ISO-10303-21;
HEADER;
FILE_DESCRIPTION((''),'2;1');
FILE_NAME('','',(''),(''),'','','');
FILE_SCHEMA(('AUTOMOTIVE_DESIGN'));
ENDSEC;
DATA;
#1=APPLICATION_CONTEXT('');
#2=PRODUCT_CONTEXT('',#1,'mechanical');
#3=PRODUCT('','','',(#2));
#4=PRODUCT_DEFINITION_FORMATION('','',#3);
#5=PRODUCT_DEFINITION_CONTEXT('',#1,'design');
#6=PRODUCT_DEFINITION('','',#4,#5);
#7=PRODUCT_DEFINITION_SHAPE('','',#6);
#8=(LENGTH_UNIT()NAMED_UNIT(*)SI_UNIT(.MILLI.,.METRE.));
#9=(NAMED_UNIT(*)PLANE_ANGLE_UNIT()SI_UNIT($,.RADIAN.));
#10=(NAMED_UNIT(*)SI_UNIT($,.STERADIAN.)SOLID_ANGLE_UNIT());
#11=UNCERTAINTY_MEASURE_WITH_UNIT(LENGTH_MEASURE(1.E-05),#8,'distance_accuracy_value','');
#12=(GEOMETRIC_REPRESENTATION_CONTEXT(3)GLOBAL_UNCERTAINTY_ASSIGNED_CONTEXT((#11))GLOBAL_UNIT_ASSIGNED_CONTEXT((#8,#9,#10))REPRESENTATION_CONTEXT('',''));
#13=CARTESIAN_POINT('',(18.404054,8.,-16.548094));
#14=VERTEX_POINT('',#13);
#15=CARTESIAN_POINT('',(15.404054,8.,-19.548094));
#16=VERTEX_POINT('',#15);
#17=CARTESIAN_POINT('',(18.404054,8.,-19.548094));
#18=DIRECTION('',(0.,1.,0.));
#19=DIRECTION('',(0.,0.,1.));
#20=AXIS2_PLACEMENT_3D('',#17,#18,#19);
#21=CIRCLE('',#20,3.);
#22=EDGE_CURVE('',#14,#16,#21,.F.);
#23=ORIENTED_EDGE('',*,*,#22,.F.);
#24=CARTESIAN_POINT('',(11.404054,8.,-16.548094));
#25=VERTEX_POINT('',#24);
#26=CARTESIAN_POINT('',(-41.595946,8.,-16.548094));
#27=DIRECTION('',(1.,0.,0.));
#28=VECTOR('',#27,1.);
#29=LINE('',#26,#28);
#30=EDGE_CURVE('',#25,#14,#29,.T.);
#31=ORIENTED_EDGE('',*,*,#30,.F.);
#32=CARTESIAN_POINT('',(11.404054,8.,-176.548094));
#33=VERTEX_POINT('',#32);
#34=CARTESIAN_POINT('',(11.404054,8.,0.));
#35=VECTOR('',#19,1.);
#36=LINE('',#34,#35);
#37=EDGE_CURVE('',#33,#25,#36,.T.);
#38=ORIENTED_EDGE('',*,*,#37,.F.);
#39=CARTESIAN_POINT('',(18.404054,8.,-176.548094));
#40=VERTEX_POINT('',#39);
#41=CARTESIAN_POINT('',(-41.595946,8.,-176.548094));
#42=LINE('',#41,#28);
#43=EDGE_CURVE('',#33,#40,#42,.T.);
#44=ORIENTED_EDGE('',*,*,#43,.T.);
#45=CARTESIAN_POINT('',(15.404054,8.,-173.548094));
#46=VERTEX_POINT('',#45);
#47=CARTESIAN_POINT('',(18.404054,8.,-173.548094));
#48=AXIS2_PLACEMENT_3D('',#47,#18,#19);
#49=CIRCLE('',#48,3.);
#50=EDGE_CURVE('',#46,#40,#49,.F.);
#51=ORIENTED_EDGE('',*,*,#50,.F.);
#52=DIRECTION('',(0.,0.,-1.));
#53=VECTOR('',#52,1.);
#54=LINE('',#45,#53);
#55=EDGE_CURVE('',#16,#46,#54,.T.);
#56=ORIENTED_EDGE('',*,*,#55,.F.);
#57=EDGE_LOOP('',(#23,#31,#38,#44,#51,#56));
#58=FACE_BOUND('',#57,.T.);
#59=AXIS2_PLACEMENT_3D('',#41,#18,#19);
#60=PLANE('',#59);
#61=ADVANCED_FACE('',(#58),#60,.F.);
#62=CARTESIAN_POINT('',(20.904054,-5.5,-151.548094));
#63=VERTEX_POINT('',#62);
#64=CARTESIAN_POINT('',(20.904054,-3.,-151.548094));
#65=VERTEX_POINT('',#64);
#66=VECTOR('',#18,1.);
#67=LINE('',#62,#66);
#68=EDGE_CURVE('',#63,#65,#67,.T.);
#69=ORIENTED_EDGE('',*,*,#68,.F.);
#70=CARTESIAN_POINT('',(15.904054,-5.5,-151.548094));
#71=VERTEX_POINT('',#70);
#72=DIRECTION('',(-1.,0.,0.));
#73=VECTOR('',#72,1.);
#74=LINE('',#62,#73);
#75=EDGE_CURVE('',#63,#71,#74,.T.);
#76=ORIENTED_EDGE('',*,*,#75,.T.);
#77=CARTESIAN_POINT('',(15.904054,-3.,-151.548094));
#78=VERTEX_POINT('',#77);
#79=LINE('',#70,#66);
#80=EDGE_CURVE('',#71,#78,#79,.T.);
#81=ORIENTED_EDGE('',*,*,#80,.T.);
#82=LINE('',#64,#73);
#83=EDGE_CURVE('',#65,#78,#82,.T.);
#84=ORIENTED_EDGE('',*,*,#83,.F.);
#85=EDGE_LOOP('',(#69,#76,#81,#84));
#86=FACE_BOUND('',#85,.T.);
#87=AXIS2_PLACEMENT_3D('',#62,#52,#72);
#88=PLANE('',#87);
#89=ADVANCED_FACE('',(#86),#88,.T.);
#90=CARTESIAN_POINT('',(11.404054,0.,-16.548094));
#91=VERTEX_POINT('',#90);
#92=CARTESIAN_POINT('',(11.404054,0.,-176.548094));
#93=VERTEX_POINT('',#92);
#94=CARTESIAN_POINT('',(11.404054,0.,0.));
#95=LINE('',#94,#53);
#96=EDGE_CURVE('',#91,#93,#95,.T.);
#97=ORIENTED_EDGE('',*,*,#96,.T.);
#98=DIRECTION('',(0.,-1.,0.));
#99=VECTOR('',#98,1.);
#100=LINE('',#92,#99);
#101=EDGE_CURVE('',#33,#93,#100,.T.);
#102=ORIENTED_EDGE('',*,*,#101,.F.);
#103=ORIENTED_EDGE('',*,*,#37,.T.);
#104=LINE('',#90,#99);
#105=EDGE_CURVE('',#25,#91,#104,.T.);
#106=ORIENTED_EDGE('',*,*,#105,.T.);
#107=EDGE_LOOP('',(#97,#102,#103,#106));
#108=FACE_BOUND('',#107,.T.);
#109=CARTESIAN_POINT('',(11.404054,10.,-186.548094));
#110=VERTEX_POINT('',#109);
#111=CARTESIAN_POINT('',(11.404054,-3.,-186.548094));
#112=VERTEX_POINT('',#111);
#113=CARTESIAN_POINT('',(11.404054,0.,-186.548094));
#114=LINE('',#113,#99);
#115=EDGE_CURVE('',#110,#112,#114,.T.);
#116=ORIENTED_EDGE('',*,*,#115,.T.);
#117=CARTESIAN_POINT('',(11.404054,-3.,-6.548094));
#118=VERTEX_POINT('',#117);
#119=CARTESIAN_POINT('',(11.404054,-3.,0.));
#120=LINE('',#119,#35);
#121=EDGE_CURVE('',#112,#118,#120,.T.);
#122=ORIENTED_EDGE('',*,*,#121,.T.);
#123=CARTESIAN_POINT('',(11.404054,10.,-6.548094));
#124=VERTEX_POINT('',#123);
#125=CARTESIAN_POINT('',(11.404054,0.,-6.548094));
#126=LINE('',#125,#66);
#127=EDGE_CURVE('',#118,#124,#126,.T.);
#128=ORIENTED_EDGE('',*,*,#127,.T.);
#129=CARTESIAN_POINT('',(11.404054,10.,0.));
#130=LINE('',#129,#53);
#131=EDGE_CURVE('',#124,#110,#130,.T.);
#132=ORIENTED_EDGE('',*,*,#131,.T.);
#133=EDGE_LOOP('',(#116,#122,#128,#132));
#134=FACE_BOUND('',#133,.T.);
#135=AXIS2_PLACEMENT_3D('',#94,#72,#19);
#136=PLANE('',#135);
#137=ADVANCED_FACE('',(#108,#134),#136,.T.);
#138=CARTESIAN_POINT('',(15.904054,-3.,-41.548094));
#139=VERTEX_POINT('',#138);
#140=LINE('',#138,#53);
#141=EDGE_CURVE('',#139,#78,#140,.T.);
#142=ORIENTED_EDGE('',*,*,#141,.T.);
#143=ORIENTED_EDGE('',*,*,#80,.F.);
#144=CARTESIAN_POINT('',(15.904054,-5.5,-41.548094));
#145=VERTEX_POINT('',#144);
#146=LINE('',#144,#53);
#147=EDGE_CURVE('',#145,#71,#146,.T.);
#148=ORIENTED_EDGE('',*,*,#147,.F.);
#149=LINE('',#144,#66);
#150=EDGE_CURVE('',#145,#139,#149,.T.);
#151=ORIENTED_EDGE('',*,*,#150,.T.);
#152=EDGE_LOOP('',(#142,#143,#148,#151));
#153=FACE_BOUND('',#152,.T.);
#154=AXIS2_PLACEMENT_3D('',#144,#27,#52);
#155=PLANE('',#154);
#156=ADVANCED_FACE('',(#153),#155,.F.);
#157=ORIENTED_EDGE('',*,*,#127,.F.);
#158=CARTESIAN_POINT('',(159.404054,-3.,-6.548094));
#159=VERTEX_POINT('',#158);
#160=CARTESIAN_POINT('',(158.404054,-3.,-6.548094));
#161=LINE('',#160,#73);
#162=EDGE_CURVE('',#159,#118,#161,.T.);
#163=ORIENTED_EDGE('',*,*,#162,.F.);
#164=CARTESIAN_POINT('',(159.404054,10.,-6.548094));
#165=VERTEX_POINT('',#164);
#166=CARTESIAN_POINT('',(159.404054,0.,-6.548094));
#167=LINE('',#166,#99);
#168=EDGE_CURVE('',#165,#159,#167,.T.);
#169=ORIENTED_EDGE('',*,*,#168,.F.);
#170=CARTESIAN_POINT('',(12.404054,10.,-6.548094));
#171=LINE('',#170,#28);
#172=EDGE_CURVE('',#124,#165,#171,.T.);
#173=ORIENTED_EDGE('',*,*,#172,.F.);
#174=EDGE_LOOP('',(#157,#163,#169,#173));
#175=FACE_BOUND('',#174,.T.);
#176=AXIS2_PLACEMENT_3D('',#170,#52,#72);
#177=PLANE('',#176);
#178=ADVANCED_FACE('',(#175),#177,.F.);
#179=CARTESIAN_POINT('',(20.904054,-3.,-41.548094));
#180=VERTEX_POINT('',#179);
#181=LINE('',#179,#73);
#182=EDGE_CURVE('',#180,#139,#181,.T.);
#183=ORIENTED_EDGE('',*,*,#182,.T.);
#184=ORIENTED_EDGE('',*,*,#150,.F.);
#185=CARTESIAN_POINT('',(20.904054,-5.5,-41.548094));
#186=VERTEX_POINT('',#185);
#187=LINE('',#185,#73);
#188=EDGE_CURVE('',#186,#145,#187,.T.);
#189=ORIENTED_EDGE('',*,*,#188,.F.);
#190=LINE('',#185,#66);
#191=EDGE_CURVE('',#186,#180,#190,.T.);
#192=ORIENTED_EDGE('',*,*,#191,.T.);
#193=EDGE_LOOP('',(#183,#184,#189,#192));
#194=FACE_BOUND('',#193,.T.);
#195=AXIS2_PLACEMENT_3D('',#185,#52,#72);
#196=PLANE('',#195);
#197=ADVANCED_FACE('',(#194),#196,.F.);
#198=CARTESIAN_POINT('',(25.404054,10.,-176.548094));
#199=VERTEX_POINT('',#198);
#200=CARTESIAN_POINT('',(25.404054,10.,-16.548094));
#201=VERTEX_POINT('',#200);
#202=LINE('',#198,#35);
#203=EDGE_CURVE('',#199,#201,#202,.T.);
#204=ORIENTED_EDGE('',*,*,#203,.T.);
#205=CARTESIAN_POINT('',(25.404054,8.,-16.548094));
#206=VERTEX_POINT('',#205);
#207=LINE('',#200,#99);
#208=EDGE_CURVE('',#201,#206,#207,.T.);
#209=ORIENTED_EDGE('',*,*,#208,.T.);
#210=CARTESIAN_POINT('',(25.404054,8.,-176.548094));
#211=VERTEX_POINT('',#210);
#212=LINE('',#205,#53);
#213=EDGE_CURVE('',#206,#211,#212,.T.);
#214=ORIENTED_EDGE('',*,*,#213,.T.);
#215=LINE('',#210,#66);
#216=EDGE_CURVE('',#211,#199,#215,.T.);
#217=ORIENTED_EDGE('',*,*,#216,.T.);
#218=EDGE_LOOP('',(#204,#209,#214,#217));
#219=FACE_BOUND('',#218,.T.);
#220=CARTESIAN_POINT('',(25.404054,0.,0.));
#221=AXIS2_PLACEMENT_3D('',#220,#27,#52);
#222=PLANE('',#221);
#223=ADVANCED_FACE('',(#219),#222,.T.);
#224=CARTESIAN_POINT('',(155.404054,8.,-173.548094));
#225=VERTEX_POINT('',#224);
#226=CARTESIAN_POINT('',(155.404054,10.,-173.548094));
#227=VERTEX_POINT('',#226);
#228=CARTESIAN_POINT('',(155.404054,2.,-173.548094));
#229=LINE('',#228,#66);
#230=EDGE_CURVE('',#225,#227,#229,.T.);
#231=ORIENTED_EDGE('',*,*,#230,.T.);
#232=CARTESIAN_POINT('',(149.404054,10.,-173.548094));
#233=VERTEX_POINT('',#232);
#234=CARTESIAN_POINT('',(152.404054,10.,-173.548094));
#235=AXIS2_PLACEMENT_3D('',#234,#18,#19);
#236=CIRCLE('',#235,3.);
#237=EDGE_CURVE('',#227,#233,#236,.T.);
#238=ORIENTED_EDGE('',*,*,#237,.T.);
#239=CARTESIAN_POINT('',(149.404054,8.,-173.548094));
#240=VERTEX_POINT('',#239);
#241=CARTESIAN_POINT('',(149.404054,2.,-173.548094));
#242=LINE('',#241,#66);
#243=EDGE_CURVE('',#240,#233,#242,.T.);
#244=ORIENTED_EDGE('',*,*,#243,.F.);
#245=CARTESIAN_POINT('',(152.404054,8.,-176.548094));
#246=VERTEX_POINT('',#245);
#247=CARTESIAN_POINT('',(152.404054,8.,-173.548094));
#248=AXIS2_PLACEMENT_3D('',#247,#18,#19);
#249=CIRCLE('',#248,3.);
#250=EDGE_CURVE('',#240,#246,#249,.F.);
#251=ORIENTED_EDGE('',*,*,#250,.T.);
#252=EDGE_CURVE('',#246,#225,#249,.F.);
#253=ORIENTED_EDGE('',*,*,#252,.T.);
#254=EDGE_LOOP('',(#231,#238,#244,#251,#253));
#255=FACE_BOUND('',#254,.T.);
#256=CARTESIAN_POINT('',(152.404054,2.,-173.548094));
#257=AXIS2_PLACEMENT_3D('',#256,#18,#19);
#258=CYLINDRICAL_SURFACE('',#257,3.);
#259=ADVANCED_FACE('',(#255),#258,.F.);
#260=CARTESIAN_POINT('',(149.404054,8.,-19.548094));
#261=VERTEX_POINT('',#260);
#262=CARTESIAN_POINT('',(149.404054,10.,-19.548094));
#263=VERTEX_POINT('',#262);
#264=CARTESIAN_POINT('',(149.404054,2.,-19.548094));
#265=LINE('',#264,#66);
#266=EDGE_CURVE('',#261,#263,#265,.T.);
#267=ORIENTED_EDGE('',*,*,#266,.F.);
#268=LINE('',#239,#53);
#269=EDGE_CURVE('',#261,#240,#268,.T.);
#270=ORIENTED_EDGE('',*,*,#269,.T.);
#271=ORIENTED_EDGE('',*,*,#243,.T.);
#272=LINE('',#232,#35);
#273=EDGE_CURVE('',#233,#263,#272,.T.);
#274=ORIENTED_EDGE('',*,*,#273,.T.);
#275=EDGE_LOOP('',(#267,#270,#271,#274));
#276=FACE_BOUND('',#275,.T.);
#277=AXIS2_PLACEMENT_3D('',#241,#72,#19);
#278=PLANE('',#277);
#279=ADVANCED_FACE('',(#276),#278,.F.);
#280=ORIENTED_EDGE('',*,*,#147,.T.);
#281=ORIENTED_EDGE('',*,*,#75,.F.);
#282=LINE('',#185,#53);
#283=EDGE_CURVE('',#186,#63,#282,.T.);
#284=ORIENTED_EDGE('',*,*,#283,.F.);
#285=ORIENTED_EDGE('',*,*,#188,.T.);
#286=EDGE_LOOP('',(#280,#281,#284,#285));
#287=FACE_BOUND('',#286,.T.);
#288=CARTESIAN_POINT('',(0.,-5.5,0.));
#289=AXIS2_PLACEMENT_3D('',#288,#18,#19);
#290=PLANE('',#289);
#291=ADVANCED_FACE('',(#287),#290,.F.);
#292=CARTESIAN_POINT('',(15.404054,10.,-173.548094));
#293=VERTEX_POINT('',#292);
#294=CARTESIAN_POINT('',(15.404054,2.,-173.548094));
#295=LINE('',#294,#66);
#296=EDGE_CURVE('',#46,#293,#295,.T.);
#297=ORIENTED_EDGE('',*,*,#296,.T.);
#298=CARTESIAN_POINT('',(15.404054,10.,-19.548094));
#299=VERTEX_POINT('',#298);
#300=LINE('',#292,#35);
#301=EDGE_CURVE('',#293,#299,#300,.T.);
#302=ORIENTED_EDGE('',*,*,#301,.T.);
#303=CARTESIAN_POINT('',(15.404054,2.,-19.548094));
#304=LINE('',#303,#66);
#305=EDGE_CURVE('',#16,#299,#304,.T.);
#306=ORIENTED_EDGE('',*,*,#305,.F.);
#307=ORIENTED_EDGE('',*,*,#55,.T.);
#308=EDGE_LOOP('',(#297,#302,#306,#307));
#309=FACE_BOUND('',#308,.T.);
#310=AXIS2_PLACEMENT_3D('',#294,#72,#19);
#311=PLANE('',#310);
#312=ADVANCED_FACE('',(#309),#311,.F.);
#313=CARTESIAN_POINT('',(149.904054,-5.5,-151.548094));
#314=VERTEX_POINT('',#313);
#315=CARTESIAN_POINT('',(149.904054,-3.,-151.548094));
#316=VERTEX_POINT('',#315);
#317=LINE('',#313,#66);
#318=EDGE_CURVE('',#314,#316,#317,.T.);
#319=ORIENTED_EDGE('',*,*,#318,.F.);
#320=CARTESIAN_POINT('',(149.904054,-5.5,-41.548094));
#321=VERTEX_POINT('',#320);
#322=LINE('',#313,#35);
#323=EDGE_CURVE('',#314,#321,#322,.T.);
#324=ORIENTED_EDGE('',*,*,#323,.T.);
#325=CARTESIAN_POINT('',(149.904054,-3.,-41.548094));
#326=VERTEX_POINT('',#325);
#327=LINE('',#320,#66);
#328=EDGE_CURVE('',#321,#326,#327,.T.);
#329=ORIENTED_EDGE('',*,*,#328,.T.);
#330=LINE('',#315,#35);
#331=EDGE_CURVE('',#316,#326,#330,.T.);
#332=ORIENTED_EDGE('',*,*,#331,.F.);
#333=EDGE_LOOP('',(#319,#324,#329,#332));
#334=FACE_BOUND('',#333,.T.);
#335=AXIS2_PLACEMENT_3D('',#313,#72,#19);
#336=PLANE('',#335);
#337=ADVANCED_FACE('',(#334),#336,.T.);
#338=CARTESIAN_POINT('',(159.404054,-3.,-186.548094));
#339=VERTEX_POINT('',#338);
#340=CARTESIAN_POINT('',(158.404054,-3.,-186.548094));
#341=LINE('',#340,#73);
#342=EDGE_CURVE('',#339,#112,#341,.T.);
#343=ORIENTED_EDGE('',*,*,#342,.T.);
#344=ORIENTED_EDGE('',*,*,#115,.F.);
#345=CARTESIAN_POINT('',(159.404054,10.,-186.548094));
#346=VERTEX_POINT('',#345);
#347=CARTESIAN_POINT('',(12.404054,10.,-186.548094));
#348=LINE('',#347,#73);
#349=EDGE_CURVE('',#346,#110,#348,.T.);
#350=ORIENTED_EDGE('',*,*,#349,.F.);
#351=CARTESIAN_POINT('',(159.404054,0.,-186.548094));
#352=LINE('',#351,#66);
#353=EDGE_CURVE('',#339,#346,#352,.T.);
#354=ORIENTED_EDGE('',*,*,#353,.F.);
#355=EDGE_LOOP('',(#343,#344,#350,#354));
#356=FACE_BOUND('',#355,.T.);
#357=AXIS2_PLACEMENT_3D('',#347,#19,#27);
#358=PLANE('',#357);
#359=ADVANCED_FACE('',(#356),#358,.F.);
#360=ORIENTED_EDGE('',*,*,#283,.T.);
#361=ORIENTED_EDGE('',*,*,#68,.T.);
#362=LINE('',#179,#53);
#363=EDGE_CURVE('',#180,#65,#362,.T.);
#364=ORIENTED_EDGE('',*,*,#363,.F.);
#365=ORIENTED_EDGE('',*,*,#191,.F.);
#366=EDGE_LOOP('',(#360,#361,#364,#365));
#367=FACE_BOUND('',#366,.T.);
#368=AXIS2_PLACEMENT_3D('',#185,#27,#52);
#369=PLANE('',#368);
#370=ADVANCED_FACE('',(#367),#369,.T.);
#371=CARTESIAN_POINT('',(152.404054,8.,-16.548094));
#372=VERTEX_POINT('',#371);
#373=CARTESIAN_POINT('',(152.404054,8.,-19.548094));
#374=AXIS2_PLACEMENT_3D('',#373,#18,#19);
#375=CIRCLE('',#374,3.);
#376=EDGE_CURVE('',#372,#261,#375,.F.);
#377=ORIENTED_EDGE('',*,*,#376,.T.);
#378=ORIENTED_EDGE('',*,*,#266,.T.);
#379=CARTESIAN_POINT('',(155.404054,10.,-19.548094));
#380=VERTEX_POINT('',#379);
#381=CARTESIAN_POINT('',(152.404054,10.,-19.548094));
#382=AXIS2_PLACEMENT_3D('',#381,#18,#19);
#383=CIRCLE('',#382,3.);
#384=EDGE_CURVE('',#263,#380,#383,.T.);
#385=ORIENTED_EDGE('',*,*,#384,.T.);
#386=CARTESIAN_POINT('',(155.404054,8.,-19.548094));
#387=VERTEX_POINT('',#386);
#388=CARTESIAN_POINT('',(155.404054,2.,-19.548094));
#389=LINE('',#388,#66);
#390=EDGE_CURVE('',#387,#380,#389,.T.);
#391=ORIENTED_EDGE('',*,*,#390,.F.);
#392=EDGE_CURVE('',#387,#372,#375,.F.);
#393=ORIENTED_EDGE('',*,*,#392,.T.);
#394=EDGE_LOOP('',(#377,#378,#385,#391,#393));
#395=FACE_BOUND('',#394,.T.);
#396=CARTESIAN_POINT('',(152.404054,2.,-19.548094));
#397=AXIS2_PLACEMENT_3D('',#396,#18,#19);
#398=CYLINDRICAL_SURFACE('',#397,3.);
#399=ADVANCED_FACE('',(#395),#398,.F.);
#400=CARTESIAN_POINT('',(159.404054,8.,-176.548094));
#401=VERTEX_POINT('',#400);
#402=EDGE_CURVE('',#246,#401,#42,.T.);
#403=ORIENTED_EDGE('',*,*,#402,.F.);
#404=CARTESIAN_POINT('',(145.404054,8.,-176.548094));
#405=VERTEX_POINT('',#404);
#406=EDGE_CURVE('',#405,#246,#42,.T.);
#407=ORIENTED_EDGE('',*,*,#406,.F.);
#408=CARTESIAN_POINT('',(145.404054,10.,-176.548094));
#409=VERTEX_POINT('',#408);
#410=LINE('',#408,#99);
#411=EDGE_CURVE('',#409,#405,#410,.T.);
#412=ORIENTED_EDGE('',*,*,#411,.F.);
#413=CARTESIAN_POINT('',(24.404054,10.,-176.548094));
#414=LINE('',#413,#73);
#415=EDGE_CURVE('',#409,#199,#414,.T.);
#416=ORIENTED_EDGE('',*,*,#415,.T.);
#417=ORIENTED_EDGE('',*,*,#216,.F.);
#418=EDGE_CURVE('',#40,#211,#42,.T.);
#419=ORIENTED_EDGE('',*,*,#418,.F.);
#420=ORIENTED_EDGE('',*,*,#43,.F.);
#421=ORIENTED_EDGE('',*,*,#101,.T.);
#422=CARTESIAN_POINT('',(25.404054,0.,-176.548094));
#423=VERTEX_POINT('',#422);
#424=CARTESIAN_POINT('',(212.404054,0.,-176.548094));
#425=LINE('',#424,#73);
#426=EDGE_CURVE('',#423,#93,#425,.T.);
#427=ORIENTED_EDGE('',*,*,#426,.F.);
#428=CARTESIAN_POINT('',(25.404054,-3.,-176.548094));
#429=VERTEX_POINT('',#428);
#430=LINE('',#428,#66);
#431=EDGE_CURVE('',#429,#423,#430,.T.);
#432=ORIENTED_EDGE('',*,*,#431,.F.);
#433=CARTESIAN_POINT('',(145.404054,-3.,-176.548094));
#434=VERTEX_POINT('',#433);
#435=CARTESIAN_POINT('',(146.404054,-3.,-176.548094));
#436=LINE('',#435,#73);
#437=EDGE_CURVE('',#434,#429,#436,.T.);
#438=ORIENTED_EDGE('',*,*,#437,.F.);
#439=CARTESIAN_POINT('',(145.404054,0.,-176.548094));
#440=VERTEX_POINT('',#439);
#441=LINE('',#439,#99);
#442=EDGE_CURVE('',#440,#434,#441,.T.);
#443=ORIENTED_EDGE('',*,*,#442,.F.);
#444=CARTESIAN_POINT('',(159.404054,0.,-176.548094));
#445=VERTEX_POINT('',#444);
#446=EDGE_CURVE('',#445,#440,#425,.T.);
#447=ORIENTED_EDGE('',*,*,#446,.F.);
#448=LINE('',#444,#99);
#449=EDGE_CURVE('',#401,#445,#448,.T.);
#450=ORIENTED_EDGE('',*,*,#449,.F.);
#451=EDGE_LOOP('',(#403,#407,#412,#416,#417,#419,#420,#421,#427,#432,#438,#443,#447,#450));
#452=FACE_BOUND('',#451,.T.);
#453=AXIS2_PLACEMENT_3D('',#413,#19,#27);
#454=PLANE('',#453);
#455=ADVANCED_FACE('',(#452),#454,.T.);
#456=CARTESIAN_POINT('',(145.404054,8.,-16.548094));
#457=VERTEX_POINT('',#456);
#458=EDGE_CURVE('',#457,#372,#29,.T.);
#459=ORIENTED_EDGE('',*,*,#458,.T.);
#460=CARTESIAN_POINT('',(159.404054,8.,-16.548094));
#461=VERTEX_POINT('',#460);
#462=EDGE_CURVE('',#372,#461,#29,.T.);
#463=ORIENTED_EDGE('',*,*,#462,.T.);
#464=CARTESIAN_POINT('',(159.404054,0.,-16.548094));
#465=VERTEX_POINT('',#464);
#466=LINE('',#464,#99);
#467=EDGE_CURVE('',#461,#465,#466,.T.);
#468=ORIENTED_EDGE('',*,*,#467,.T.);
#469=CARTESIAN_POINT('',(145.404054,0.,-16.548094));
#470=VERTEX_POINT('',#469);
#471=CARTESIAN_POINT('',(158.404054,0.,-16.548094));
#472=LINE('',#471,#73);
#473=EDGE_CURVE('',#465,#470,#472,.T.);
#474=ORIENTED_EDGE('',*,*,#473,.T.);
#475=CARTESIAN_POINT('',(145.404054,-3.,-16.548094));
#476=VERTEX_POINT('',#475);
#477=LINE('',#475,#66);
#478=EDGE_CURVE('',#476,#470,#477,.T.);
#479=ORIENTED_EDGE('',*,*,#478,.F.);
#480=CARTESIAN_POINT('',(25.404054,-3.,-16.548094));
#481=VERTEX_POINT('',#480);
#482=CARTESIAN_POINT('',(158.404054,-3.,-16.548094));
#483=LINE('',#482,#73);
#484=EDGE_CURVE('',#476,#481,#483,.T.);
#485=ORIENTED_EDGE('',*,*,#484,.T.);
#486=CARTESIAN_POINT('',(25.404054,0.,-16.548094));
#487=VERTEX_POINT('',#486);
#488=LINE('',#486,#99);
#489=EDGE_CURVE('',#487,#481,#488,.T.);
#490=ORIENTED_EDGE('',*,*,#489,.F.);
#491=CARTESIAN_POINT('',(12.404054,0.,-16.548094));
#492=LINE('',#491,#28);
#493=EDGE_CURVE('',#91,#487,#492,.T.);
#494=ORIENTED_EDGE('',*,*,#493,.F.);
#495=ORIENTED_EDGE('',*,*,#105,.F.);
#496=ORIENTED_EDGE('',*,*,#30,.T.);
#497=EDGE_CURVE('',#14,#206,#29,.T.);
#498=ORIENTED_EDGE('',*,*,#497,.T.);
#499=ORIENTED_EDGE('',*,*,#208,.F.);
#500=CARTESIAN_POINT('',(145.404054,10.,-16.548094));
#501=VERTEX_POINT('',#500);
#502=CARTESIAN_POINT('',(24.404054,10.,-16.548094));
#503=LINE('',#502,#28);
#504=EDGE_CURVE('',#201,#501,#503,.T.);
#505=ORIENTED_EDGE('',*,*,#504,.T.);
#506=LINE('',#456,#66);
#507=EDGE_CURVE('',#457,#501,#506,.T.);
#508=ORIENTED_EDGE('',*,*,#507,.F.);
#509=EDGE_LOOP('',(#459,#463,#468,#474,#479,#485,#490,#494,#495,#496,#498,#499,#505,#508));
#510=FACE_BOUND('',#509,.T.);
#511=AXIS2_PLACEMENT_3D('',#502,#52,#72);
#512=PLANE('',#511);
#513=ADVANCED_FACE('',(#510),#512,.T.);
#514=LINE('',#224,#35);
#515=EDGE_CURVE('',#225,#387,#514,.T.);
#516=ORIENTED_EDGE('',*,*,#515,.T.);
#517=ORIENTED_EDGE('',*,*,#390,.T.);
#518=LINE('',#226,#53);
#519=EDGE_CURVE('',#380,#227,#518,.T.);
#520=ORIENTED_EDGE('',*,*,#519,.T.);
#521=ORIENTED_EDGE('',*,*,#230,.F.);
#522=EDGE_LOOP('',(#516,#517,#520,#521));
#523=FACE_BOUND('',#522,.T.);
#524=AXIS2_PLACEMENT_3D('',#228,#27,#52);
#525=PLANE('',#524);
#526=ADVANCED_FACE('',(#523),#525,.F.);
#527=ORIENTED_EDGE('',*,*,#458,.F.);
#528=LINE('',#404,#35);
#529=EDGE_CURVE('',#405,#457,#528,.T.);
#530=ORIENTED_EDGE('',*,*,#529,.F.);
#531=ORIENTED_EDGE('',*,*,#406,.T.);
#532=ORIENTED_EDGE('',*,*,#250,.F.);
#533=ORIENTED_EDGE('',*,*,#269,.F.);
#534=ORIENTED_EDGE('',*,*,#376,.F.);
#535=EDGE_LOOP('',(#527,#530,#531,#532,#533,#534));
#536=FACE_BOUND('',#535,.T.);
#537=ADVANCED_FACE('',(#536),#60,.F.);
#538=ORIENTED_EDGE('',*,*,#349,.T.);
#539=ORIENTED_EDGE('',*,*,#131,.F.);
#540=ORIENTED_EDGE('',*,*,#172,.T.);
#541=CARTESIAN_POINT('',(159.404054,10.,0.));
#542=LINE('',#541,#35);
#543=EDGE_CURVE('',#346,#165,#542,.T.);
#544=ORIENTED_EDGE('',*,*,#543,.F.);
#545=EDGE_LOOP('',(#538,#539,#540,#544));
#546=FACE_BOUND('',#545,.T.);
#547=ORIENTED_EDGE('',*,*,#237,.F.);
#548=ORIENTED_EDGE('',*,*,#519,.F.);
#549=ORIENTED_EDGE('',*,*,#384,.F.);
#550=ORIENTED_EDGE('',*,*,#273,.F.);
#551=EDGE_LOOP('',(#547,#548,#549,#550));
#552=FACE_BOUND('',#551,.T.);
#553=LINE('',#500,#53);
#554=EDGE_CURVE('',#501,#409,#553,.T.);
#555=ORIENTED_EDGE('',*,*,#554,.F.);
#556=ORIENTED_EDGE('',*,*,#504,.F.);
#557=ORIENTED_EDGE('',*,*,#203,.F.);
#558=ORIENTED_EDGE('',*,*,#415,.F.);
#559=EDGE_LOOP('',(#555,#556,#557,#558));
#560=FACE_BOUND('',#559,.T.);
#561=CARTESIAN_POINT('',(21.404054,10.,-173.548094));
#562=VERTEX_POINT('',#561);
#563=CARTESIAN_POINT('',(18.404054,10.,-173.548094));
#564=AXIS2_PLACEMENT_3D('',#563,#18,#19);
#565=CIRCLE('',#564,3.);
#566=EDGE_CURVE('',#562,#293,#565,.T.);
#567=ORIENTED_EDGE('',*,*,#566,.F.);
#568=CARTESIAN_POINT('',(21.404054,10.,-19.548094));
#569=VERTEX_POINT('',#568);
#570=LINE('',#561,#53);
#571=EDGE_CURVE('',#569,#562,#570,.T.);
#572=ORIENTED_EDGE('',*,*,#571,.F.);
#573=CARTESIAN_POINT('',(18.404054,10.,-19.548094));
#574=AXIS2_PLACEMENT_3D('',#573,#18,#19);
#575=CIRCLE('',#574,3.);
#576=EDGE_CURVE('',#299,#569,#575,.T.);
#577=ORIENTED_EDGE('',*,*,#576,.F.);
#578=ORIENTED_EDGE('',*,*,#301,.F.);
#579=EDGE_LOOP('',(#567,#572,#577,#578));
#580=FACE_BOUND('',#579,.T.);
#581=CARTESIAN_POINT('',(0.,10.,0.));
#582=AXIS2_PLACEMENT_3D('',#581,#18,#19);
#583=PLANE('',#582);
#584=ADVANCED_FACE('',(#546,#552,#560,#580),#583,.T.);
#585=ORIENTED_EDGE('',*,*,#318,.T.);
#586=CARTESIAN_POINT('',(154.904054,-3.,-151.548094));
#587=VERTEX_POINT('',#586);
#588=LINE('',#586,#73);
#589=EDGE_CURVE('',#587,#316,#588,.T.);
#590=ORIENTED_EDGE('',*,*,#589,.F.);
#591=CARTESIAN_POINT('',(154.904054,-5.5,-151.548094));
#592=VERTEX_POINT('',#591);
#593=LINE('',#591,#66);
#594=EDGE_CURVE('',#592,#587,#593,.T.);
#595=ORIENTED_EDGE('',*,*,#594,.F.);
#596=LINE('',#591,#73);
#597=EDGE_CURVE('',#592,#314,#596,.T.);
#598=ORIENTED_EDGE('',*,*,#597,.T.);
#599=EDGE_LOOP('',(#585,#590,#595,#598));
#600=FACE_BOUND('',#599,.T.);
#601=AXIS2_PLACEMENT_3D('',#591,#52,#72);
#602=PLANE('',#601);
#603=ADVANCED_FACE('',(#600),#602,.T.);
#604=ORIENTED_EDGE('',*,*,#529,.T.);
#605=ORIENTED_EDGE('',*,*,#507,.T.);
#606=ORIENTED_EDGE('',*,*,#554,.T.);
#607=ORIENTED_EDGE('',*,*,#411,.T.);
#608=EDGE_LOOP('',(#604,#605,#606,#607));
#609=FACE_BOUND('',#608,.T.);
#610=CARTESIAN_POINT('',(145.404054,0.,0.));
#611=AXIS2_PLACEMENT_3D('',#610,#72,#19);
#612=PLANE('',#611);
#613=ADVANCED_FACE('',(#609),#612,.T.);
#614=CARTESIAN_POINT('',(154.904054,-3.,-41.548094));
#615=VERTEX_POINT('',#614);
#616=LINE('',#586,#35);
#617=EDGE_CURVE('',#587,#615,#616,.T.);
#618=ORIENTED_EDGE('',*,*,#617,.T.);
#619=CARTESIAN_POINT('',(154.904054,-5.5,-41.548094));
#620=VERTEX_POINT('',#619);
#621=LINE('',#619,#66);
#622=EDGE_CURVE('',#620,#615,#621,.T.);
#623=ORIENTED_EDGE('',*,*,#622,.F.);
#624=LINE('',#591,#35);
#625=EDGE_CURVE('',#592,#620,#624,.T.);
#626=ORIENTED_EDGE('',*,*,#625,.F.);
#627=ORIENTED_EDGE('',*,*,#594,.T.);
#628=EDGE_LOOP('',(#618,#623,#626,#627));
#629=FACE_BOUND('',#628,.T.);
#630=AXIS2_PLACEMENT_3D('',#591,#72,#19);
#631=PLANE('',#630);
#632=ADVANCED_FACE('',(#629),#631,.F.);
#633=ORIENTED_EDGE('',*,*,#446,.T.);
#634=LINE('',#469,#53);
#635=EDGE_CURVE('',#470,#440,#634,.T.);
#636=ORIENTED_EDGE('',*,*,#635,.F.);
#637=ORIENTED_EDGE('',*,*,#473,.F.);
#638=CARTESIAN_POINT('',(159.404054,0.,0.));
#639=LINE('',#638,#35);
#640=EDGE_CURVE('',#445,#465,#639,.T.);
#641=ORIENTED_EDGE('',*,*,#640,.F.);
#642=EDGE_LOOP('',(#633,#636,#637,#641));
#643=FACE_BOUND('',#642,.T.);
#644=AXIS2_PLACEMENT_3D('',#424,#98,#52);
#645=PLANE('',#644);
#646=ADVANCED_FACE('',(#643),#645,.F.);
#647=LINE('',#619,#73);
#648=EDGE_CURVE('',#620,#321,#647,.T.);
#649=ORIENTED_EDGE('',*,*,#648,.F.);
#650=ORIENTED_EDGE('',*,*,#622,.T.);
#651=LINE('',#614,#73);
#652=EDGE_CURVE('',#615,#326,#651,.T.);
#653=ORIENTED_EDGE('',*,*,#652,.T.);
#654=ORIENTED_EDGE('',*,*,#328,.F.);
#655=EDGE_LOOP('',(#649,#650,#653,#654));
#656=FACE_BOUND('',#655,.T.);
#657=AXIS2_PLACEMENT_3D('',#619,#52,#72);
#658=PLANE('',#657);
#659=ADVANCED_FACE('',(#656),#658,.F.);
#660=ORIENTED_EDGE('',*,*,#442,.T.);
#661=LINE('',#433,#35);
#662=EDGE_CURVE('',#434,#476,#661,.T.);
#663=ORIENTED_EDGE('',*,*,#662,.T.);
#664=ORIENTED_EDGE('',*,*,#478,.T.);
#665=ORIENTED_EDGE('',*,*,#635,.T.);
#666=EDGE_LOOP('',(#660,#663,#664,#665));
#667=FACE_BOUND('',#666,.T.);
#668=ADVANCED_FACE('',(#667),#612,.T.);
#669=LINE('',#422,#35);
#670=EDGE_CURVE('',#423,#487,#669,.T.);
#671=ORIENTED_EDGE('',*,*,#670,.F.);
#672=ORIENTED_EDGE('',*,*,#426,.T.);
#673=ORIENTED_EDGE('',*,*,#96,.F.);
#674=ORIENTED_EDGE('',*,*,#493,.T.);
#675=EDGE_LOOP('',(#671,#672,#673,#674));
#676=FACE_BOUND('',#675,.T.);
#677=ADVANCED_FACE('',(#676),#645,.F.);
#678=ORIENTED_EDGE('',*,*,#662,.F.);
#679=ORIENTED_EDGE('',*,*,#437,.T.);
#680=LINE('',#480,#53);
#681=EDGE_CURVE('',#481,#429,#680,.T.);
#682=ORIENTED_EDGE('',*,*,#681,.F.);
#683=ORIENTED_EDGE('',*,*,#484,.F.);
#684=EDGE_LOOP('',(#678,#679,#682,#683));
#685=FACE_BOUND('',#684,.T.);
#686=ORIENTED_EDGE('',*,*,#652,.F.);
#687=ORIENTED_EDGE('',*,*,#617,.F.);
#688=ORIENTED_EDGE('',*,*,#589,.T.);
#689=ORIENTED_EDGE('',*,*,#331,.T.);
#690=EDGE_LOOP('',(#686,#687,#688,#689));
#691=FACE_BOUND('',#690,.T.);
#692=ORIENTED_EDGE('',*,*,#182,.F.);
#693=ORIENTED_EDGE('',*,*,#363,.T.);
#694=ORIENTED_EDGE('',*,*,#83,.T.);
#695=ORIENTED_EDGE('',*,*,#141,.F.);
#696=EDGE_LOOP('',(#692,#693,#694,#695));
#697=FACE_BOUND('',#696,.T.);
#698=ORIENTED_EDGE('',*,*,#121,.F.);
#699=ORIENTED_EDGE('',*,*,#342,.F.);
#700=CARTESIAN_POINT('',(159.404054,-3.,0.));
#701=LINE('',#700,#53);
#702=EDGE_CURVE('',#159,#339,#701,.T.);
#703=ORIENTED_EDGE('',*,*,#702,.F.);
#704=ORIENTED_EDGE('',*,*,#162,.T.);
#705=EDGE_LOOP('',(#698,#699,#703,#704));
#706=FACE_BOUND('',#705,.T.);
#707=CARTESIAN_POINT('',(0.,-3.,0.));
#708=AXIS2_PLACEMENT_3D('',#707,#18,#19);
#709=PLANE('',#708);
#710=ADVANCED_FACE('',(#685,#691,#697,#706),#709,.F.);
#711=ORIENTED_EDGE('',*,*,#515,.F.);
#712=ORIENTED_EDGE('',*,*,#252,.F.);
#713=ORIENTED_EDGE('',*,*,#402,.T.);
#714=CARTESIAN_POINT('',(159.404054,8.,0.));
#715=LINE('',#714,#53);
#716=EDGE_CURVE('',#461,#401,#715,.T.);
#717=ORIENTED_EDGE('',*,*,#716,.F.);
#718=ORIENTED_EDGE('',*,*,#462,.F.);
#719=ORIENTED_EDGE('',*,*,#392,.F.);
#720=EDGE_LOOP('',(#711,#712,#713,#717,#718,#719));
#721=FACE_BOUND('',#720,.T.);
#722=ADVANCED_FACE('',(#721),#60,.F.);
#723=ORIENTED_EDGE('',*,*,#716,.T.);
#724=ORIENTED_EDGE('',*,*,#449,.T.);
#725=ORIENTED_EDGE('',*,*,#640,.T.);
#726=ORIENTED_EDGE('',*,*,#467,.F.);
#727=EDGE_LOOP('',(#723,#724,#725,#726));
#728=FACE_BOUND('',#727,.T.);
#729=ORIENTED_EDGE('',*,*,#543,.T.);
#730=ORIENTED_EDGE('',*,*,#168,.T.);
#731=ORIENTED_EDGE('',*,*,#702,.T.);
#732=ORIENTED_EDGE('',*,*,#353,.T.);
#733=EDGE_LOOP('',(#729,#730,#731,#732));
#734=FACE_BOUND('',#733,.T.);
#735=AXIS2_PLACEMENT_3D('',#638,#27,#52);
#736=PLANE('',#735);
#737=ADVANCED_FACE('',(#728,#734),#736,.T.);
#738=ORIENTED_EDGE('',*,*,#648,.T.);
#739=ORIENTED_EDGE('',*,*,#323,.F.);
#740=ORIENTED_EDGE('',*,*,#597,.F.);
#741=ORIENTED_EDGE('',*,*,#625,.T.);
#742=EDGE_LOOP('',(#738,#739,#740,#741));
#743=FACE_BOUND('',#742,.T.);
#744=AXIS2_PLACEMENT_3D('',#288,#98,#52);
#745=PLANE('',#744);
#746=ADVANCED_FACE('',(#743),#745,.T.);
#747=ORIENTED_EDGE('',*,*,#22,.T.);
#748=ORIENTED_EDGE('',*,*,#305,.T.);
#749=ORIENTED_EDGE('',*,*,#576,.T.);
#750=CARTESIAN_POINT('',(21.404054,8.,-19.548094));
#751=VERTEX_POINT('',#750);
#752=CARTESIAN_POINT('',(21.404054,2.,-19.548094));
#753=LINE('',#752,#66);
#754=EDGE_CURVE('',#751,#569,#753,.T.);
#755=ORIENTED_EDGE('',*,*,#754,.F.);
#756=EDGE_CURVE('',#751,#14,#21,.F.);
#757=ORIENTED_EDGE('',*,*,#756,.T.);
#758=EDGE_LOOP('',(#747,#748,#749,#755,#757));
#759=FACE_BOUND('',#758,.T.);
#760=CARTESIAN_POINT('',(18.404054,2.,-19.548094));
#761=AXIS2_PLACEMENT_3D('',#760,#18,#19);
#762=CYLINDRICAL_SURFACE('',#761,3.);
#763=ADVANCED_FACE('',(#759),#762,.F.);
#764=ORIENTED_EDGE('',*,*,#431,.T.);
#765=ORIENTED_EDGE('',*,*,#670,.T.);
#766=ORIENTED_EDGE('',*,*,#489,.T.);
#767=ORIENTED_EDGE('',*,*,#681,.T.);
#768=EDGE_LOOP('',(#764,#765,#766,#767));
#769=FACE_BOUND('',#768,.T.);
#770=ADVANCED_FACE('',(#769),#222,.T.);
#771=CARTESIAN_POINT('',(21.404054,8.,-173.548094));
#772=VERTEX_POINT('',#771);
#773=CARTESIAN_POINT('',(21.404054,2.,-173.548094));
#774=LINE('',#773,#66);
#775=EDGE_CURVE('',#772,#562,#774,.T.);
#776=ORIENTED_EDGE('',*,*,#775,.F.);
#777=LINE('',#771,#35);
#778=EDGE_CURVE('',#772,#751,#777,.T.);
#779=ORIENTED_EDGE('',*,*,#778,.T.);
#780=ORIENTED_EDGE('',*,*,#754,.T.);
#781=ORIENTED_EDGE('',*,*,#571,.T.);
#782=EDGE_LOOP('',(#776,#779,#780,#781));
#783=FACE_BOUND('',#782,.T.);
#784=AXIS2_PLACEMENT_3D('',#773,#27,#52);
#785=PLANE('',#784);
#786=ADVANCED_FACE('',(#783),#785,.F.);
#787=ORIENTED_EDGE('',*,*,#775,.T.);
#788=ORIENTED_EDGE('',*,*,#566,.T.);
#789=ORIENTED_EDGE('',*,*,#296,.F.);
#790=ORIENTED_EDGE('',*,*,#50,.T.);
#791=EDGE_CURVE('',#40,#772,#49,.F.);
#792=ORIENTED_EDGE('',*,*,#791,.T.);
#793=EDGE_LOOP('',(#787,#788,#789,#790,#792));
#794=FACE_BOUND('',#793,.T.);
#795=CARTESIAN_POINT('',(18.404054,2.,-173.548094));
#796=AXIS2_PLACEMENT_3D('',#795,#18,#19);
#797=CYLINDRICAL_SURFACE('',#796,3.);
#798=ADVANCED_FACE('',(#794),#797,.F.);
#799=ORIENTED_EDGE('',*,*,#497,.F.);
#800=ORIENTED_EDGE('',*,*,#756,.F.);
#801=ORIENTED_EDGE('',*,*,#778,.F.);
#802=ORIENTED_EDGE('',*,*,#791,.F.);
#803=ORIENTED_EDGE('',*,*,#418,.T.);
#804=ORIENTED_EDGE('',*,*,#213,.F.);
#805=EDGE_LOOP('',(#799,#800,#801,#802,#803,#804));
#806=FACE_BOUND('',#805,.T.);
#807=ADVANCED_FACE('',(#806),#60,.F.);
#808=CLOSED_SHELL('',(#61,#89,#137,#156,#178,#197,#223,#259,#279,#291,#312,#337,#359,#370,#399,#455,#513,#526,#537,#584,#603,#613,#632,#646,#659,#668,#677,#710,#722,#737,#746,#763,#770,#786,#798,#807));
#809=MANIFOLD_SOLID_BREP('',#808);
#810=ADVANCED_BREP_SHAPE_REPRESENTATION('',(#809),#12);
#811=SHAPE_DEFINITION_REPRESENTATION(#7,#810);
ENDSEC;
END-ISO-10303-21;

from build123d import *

# Parameters (mm, degrees)
SKETCH1_W            = 146
SKETCH1_H            = 180
BOSS_EXTRUDE1_DEPTH  = 10
BOSS_EXTRUDE9_DEPTH  = 10
BOSS_EXTRUDE10_DEPTH = 10
CUT_EXTRUDE1_DEPTH   = 8
CUT_EXTRUDE3_DEPTH   = 8
CUT_EXTRUDE5_DEPTH   = 8
SKETCH9_W            = 160
SKETCH9_H            = 5
CUT_EXTRUDE6_DEPTH   = 200
SKETCH16_W           = 2
SKETCH16_H           = 100
BOSS_EXTRUDE12_DEPTH = 2
SKETCH17_W           = 12
SKETCH17_H           = 15
CUT_EXTRUDE20_DEPTH  = 5
SKETCH18_W           = 146
SKETCH18_H           = 10
BOSS_EXTRUDE13_DEPTH = 2
SKETCH19_W           = 145
SKETCH19_H           = 3
CUT_EXTRUDE21_DEPTH  = 200
SKETCH20_W           = 146
SKETCH20_H           = 10
BOSS_EXTRUDE14_DEPTH = 1
CUT_EXTRUDE14_DEPTH  = 200
SKETCH26_W           = 15
SKETCH26_H           = 3
BOSS_EXTRUDE24_DEPTH = 12
SKETCH27_W           = 15
SKETCH27_H           = 3
BOSS_EXTRUDE25_DEPTH = 12
SKETCH28_W           = 7.806424589
SKETCH28_H           = 4.847825316
SKETCH28_W_2         = 8.08212844
SKETCH28_H_2         = 5.143440523
BOSS_EXTRUDE27_DEPTH = 146
SKETCH29_W           = 10.987975608
SKETCH29_H           = 7.251742555
SKETCH29_H_2         = 6.917732736
BOSS_EXTRUDE28_DEPTH = 13
SKETCH30_W           = 160
SKETCH30_H           = 3
SKETCH30_H_2         = 2
BOSS_EXTRUDE29_DEPTH = 1
SKETCH31_W           = 160
SKETCH31_H           = 2
SKETCH31_H_2         = 3
BOSS_EXTRUDE30_DEPTH = 1
SKETCH32_W           = 160
SKETCH32_H           = 3
SKETCH32_H_2         = 2
BOSS_EXTRUDE31_DEPTH = 1
SKETCH33_W           = 160
SKETCH33_H           = 3
SKETCH33_H_2         = 2
BOSS_EXTRUDE32_DEPTH = 1
SKETCH34_W           = 5
SKETCH34_H           = 110
BOSS_EXTRUDE33_DEPTH = 2.5
SKETCH22_W           = 5
SKETCH22_H           = 100
BOSS_EXTRUDE16_DEPTH = 2
CUT_EXTRUDE16_DEPTH  = 2
CUT_EXTRUDE17_DEPTH  = 2
SKETCH24_W           = 6.837176559
SKETCH24_H           = 5.891562969
BOSS_EXTRUDE19_DEPTH = 8
SKETCH25_W           = 15
SKETCH25_H           = 3
BOSS_EXTRUDE21_DEPTH = 12
CUT_EXTRUDE18_DEPTH  = 2
SKETCH14_W           = 166
SKETCH14_H           = 200
BOSS_EXTRUDE11_DEPTH = 1
SKETCH15_W           = 166
SKETCH15_H           = 200
SKETCH15_W_2         = 148
SKETCH15_H_2         = 180
SKETCH15_W_3         = 120
SKETCH15_H_3         = 160
CUT_EXTRUDE19_DEPTH  = 10000


with BuildPart() as part:
    # Sketch1 → Boss-Extrude1 (new body)
    with BuildSketch(Plane(origin=(0, 0, 0), x_dir=(1, 0, 0), z_dir=(0, 1, 0))):
        with Locations((85.404053839, 96.548093588)):
            Rectangle(SKETCH1_W, SKETCH1_H)
        with BuildLine():
            Line((24.404053839, 16.548093588), (24.404053839, 176.548093588))
            Line((24.404053839, 176.548093588), (82.654053839, 176.548093588))
            ThreePointArc((82.654053839, 176.548093588), (82.830830534, 176.621316892), (82.904053839, 176.798093588))
            Line((82.904053839, 176.798093588), (82.904053839, 181.298093588))
            ThreePointArc((82.904053839, 181.298093588), (82.977277144, 181.474870283), (83.154053839, 181.548093588))
            Line((83.154053839, 181.548093588), (87.654053839, 181.548093588))
            ThreePointArc((87.654053839, 181.548093588), (87.830830534, 181.474870283), (87.904053839, 181.298093588))
            Line((87.904053839, 181.298093588), (87.904053839, 176.798093588))
            ThreePointArc((87.904053839, 176.798093588), (87.977277144, 176.621316892), (88.154053839, 176.548093588))
            Line((88.154053839, 176.548093588), (146.404053839, 176.548093588))
            Line((146.404053839, 176.548093588), (146.404053839, 16.548093588))
            Line((146.404053839, 16.548093588), (88.154053839, 16.548093588))
            ThreePointArc((88.154053839, 16.548093588), (87.977277144, 16.474870283), (87.904053839, 16.298093588))
            Line((87.904053839, 16.298093588), (87.904053839, 11.798093588))
            ThreePointArc((87.904053839, 11.798093588), (87.830830534, 11.621316892), (87.654053839, 11.548093588))
            Line((87.654053839, 11.548093588), (83.154053839, 11.548093588))
            ThreePointArc((83.154053839, 11.548093588), (82.977277144, 11.621316892), (82.904053839, 11.798093588))
            Line((82.904053839, 11.798093588), (82.904053839, 16.298093588))
            ThreePointArc((82.904053839, 16.298093588), (82.830830534, 16.474870283), (82.654053839, 16.548093588))
            Line((82.654053839, 16.548093588), (24.404053839, 16.548093588))
        make_face(mode=Mode.SUBTRACT)
    extrude(amount=BOSS_EXTRUDE1_DEPTH)

    # Sketch2 → Boss-Extrude9 (add)
    with BuildSketch(Plane(origin=(0, 0, 0), x_dir=(-1, 0, 0), z_dir=(0, -1, 0))):
        with BuildLine():
            Line((-82.654053839, 16.548093588), (-88.154053839, 16.548093588))
            ThreePointArc((-88.154053839, 16.548093588), (-87.977277144, 16.474870283), (-87.904053839, 16.298093588))
            Line((-87.904053839, 16.298093588), (-87.904053839, 11.798093588))
            ThreePointArc((-87.904053839, 11.798093588), (-87.830830534, 11.621316892), (-87.654053839, 11.548093588))
            Line((-87.654053839, 11.548093588), (-83.154053839, 11.548093588))
            ThreePointArc((-83.154053839, 11.548093588), (-82.977277144, 11.621316892), (-82.904053839, 11.798093588))
            Line((-82.904053839, 11.798093588), (-82.904053839, 16.298093588))
            ThreePointArc((-82.904053839, 16.298093588), (-82.830830534, 16.474870283), (-82.654053839, 16.548093588))
        make_face()
    extrude(amount=-BOSS_EXTRUDE9_DEPTH)

    # Sketch5 → Boss-Extrude10 (add)
    with BuildSketch(Plane(origin=(0, 0, 0), x_dir=(-1, 0, 0), z_dir=(0, -1, 0))):
        with BuildLine():
            Line((-82.654053839, 176.548093588), (-88.154053839, 176.548093588))
            ThreePointArc((-88.154053839, 176.548093588), (-87.977277144, 176.621316892), (-87.904053839, 176.798093588))
            Line((-87.904053839, 176.798093588), (-87.904053839, 181.298093588))
            ThreePointArc((-87.904053839, 181.298093588), (-87.830830534, 181.474870283), (-87.654053839, 181.548093588))
            Line((-87.654053839, 181.548093588), (-83.154053839, 181.548093588))
            ThreePointArc((-83.154053839, 181.548093588), (-82.977277144, 181.474870283), (-82.904053839, 181.298093588))
            Line((-82.904053839, 181.298093588), (-82.904053839, 176.798093588))
            ThreePointArc((-82.904053839, 176.798093588), (-82.830830534, 176.621316892), (-82.654053839, 176.548093588))
        make_face()
    extrude(amount=-BOSS_EXTRUDE10_DEPTH)

    # Sketch6 → Cut-Extrude1 (cut)
    with BuildSketch(Plane(origin=(0, 10, 0), x_dir=(1, 0, 0), z_dir=(0, 1, 0))):
        with BuildLine():
            Line((83.154053839, 181.548093588), (87.654053839, 181.548093588))
            ThreePointArc((87.654053839, 181.548093588), (87.830830534, 181.474870283), (87.904053839, 181.298093588))
            Line((87.904053839, 181.298093588), (87.904053839, 176.798093588))
            ThreePointArc((87.904053839, 176.798093588), (87.977277144, 176.621316892), (88.154053839, 176.548093588))
            Line((88.154053839, 176.548093588), (82.654053839, 176.548093588))
            ThreePointArc((82.654053839, 176.548093588), (82.830830534, 176.621316892), (82.904053839, 176.798093588))
            Line((82.904053839, 176.798093588), (82.904053839, 181.298093588))
            ThreePointArc((82.904053839, 181.298093588), (82.977277144, 181.474870283), (83.154053839, 181.548093588))
        make_face()
    extrude(amount=-CUT_EXTRUDE1_DEPTH, mode=Mode.SUBTRACT)

    # Sketch7 → Cut-Extrude3 (cut)
    with BuildSketch(Plane(origin=(0, 10, 0), x_dir=(1, 0, 0), z_dir=(0, 1, 0))):
        with BuildLine():
            Line((87.904053839, 11.798093588), (87.904053839, 16.298093588))
            ThreePointArc((87.904053839, 16.298093588), (87.977277144, 16.474870283), (88.154053839, 16.548093588))
            Line((88.154053839, 16.548093588), (82.654053839, 16.548093588))
            ThreePointArc((82.654053839, 16.548093588), (82.830830534, 16.474870283), (82.904053839, 16.298093588))
            Line((82.904053839, 16.298093588), (82.904053839, 11.798093588))
            ThreePointArc((82.904053839, 11.798093588), (82.977277144, 11.621316892), (83.154053839, 11.548093588))
            Line((83.154053839, 11.548093588), (87.654053839, 11.548093588))
            ThreePointArc((87.654053839, 11.548093588), (87.830830534, 11.621316892), (87.904053839, 11.798093588))
        make_face()
    extrude(amount=-CUT_EXTRUDE3_DEPTH, mode=Mode.SUBTRACT)

    # Sketch8 → Cut-Extrude5 (cut)
    with BuildSketch(Plane(origin=(0, 10, 0), x_dir=(1, 0, 0), z_dir=(0, 1, 0))):
        with BuildLine():
            Line((21.404053839, 173.548093588), (21.404053839, 19.548093588))
            ThreePointArc((21.404053839, 19.548093588), (18.404053839, 16.548093588), (15.404053839, 19.548093588))
            Line((15.404053839, 19.548093588), (15.404053839, 173.548093588))
            ThreePointArc((15.404053839, 173.548093588), (18.404053839, 176.548093588), (21.404053839, 173.548093588))
        make_face()
        with BuildLine():
            Line((155.404053839, 173.548093588), (155.404053839, 19.548093588))
            ThreePointArc((155.404053839, 19.548093588), (152.404053839, 16.548093588), (149.404053839, 19.548093588))
            Line((149.404053839, 19.548093588), (149.404053839, 173.548093588))
            ThreePointArc((149.404053839, 173.548093588), (152.404053839, 176.548093588), (155.404053839, 173.548093588))
        make_face()
    extrude(amount=-CUT_EXTRUDE5_DEPTH, mode=Mode.SUBTRACT)

    # Sketch9 → Cut-Extrude6 (cut)
    with BuildSketch(Plane(origin=(158.404053839, 0, 0), x_dir=(0, 0, -1), z_dir=(1, 0, 0))):
        with Locations((96.548093588, 5.5)):
            Rectangle(SKETCH9_W, SKETCH9_H)
    extrude(amount=-CUT_EXTRUDE6_DEPTH, mode=Mode.SUBTRACT)

    # Sketch16 → Boss-Extrude12 (add)
    with BuildSketch(Plane(origin=(0, 0, 0), x_dir=(-1, 0, 0), z_dir=(0, -1, 0))):
        Polygon((-151.404053839, 46.548093587), (-153.404053839, 46.548093588), (-153.404053839, 146.548093588), (-151.404053839, 146.548093588), align=None)
        with Locations((-18.404053839, 96.548093588)):
            Rectangle(SKETCH16_W, SKETCH16_H)
    extrude(amount=BOSS_EXTRUDE12_DEPTH)

    # Sketch17 → Cut-Extrude20 (cut)
    with BuildSketch(Plane(origin=(0, 0, 0), x_dir=(-1, 0, 0), z_dir=(0, -1, 0))):
        with Locations((-152.404053839, 24.048093588)):
            Rectangle(SKETCH17_W, SKETCH17_H)
        with Locations((-18.404053839, 24.048093588)):
            Rectangle(SKETCH17_W, SKETCH17_H)
    extrude(amount=-CUT_EXTRUDE20_DEPTH, mode=Mode.SUBTRACT)

    # Sketch18 → Boss-Extrude13 (add)
    with BuildSketch(Plane(origin=(0, 0, 0), x_dir=(-1, 0, 0), z_dir=(0, -1, 0))):
        with Locations((-85.404053839, 11.548093588)):
            Rectangle(SKETCH18_W, SKETCH18_H)
        Polygon((-158.404053839, 31.548093588), (-146.404053839, 31.548093588), (-146.404053839, 176.548093588), (-24.404053839, 176.548093588), (-24.404053839, 31.548093588), (-12.404053839, 31.548093588), (-12.404053839, 186.548093588), (-158.404053839, 186.548093588), align=None)
    extrude(amount=BOSS_EXTRUDE13_DEPTH)

    # Sketch19 → Cut-Extrude21 (cut)
    with BuildSketch(Plane.ZY.offset(-12.404053839)):
        with Locations((-104.048093588, 1.5)):
            Rectangle(SKETCH19_W, SKETCH19_H)
    extrude(amount=-CUT_EXTRUDE21_DEPTH, mode=Mode.SUBTRACT)

    # Sketch20 → Boss-Extrude14 (add)
    with BuildSketch(Plane(origin=(0, -2, 0), x_dir=(-1, 0, 0), z_dir=(0, -1, 0))):
        with Locations((-85.404053839, 11.548093588)):
            Rectangle(SKETCH20_W, SKETCH20_H)
        Polygon((-158.404053839, 31.548093588), (-146.404053839, 31.548093588), (-146.404053839, 176.548093588), (-24.404053839, 176.548093588), (-24.404053839, 31.548093588), (-12.404053839, 31.548093588), (-12.404053839, 186.548093588), (-158.404053839, 186.548093588), align=None)
    extrude(amount=BOSS_EXTRUDE14_DEPTH)

    # Sketch10 → Cut-Extrude14 (cut)
    with BuildSketch(Plane.ZY.offset(-12.404053839)):
        with BuildLine():
            Line((-14.670592587, 0), (-8.425594588, 0))
            ThreePointArc((-8.425594588, 0), (-11.548093588, 1.5), (-14.670592587, 0))
        make_face()
        with BuildLine():
            Line((-184.670592587, 0), (-178.425594588, 0))
            ThreePointArc((-178.425594588, 0), (-181.548093588, 1.5), (-184.670592587, 0))
        make_face()
    extrude(amount=-CUT_EXTRUDE14_DEPTH, mode=Mode.SUBTRACT)

    # Sketch26 → Boss-Extrude24 (add)
    with BuildSketch(Plane.ZY.offset(-146.404053839)):
        with Locations((-24.048093588, -1.5)):
            Rectangle(SKETCH26_W, SKETCH26_H)
    extrude(amount=-BOSS_EXTRUDE24_DEPTH)

    # Sketch27 → Boss-Extrude25 (add)
    with BuildSketch(Plane(origin=(24.404053839, 0, 0), x_dir=(0, 0, -1), z_dir=(1, 0, 0))):
        with Locations((24.048093588, -1.5)):
            Rectangle(SKETCH27_W, SKETCH27_H)
    extrude(amount=-BOSS_EXTRUDE25_DEPTH)

    # Sketch28 → Boss-Extrude27 (add)
    with BuildSketch(Plane(origin=(158.404053839, 0, 0), x_dir=(0, 0, -1), z_dir=(1, 0, 0))):
        with Locations((11.32588383, 1.141613022)):
            Rectangle(SKETCH28_W, SKETCH28_H)
        with Locations((181.472700273, 0.993805419)):
            Rectangle(SKETCH28_W_2, SKETCH28_H_2)
    extrude(amount=-BOSS_EXTRUDE27_DEPTH)

    # Sketch29 → Boss-Extrude28 (add)
    with BuildSketch(Plane(origin=(0, -3, 0), x_dir=(-1, 0, 0), z_dir=(0, -1, 0))):
        with Locations((-86.043966063, 180.173964866)):
            Rectangle(SKETCH29_W, SKETCH29_H)
        with Locations((-86.043966063, 13.08922722)):
            Rectangle(SKETCH29_W, SKETCH29_H_2)
    extrude(amount=-BOSS_EXTRUDE28_DEPTH)

    # Sketch30 → Boss-Extrude29 (add)
    with BuildSketch(Plane.ZY.offset(-12.404053839)):
        Polygon((-176.548093588, 10), (-186.548093588, 10), (-186.548093588, -3), (-176.548093588, -3), (-176.548093588, 0), (-176.548093588, 8), align=None)
        with Locations((-96.548093588, -1.5)):
            Rectangle(SKETCH30_W, SKETCH30_H)
        with Locations((-96.548093588, 9)):
            Rectangle(SKETCH30_W, SKETCH30_H_2)
        Polygon((-6.548093588, 10), (-16.548093588, 10), (-16.548093588, 8), (-16.548093588, 0), (-16.548093588, -3), (-6.548093588, -3), align=None)
    extrude(amount=BOSS_EXTRUDE29_DEPTH)

    # Sketch31 → Boss-Extrude30 (add)
    with BuildSketch(Plane(origin=(158.404053839, 0, 0), x_dir=(0, 0, -1), z_dir=(1, 0, 0))):
        Polygon((176.548093588, -3), (186.548093588, -3), (186.548093588, 10), (176.548093588, 10), (176.548093588, 8), (176.548093588, 0), align=None)
        with Locations((96.548093588, 9)):
            Rectangle(SKETCH31_W, SKETCH31_H)
        with Locations((96.548093588, -1.5)):
            Rectangle(SKETCH31_W, SKETCH31_H_2)
        Polygon((6.548093588, -3), (16.548093588, -3), (16.548093588, 0), (16.548093588, 8), (16.548093588, 10), (6.548093588, 10), align=None)
    extrude(amount=BOSS_EXTRUDE30_DEPTH)

    # Sketch32 → Boss-Extrude31 (add)
    with BuildSketch(Plane.ZY.offset(-146.404053839)):
        with Locations((-96.548093588, -1.5)):
            Rectangle(SKETCH32_W, SKETCH32_H)
        with Locations((-96.548093588, 9)):
            Rectangle(SKETCH32_W, SKETCH32_H_2)
    extrude(amount=BOSS_EXTRUDE31_DEPTH)

    # Sketch33 → Boss-Extrude32 (add)
    with BuildSketch(Plane(origin=(24.404053839, 0, 0), x_dir=(0, 0, -1), z_dir=(1, 0, 0))):
        with Locations((96.548093588, -1.5)):
            Rectangle(SKETCH33_W, SKETCH33_H)
        with Locations((96.548093588, 9)):
            Rectangle(SKETCH33_W, SKETCH33_H_2)
    extrude(amount=BOSS_EXTRUDE32_DEPTH)

    # Sketch34 → Boss-Extrude33 (add)
    with BuildSketch(Plane(origin=(0, -3, 0), x_dir=(-1, 0, 0), z_dir=(0, -1, 0))):
        with Locations((-152.404053839, 96.548093588)):
            Rectangle(SKETCH34_W, SKETCH34_H)
        with Locations((-18.404053839, 96.548093588)):
            Rectangle(SKETCH34_W, SKETCH34_H)
    extrude(amount=BOSS_EXTRUDE33_DEPTH)

    # Sketch22 → Boss-Extrude16 (add)
    with BuildSketch(Plane(origin=(0, -3, 0), x_dir=(-1, 0, 0), z_dir=(0, -1, 0))):
        with Locations((-152.404053839, 96.548093588)):
            Rectangle(SKETCH22_W, SKETCH22_H)
        with Locations((-18.404053839, 96.548093588)):
            Rectangle(SKETCH22_W, SKETCH22_H)
    extrude(amount=BOSS_EXTRUDE16_DEPTH)

    # Sketch11 → Cut-Extrude16 (cut)
    with BuildSketch(Plane(origin=(158.404053839, 0, 0), x_dir=(0, 0, -1), z_dir=(1, 0, 0))):
        Polygon((21.548093588, 0), (21.548093588, 1.5), (27.146169799, 0), align=None)
    extrude(amount=-CUT_EXTRUDE16_DEPTH, mode=Mode.SUBTRACT)

    # Sketch12 → Cut-Extrude17 (cut)
    with BuildSketch(Plane(origin=(158.404053839, 0, 0), x_dir=(0, 0, -1), z_dir=(1, 0, 0))):
        Polygon((165.948093588, 0), (165.948093588, 1.5), (171.546169799, 0), align=None)
    extrude(amount=-CUT_EXTRUDE17_DEPTH, mode=Mode.SUBTRACT)

    # Sketch24 → Boss-Extrude19 (add)
    with BuildSketch(Plane(origin=(0, 2, 0), x_dir=(1, 0, 0), z_dir=(0, 1, 0))):
        with Locations((85.342908549, 13.602312104)):
            Rectangle(SKETCH24_W, SKETCH24_H)
        Polygon((88.761496828, 176.548093588), (88.761496828, 183.338705529), (80.923906639, 182.847568728), (80.923906639, 176.548093588), align=None)
    extrude(amount=BOSS_EXTRUDE19_DEPTH)

    # Sketch25 → Boss-Extrude21 (add)
    with BuildSketch(Plane(origin=(24.404053839, 0, 0), x_dir=(0, 0, -1), z_dir=(1, 0, 0))):
        with Locations((24.048093588, -1.5)):
            Rectangle(SKETCH25_W, SKETCH25_H)
    extrude(amount=-BOSS_EXTRUDE21_DEPTH)

    # Sketch13 → Cut-Extrude18 (cut)
    with BuildSketch(Plane.ZY.offset(-12.404053839)):
        Polygon((-171.546169799, 0), (-171.546169799, 1.5), (-165.948093588, 0), align=None)
        Polygon((-27.146169799, 0), (-27.146169799, 1.5), (-21.548093587, 0), align=None)
    extrude(amount=-CUT_EXTRUDE18_DEPTH, mode=Mode.SUBTRACT)

    # Sketch14 → Boss-Extrude11 (add)
    with BuildSketch(Plane(origin=(0, 0, 0), x_dir=(-1, 0, 0), z_dir=(0, -1, 0))):
        with Locations((-85.404053839, 96.548093588)):
            Rectangle(SKETCH14_W, SKETCH14_H)
    extrude(amount=BOSS_EXTRUDE11_DEPTH)

    # Sketch15 → Cut-Extrude19 (cut)
    # profile 1 of 2: a face of its own
    with BuildSketch(Plane.XZ.offset(1)):
        with Locations((85.404053839, -96.548093588)):
            Rectangle(SKETCH15_W, SKETCH15_H)
        with Locations((85.404053839, -96.548093588)):
            Rectangle(SKETCH15_W_2, SKETCH15_H_2, mode=Mode.SUBTRACT)
    # profile 2 of 2: a face of its own
    with BuildSketch(Plane.XZ.offset(1)):
        with Locations((85.404053839, -96.548093588)):
            Rectangle(SKETCH15_W_3, SKETCH15_H_3)
    extrude(amount=-CUT_EXTRUDE19_DEPTH, mode=Mode.SUBTRACT)


solid = part.part
